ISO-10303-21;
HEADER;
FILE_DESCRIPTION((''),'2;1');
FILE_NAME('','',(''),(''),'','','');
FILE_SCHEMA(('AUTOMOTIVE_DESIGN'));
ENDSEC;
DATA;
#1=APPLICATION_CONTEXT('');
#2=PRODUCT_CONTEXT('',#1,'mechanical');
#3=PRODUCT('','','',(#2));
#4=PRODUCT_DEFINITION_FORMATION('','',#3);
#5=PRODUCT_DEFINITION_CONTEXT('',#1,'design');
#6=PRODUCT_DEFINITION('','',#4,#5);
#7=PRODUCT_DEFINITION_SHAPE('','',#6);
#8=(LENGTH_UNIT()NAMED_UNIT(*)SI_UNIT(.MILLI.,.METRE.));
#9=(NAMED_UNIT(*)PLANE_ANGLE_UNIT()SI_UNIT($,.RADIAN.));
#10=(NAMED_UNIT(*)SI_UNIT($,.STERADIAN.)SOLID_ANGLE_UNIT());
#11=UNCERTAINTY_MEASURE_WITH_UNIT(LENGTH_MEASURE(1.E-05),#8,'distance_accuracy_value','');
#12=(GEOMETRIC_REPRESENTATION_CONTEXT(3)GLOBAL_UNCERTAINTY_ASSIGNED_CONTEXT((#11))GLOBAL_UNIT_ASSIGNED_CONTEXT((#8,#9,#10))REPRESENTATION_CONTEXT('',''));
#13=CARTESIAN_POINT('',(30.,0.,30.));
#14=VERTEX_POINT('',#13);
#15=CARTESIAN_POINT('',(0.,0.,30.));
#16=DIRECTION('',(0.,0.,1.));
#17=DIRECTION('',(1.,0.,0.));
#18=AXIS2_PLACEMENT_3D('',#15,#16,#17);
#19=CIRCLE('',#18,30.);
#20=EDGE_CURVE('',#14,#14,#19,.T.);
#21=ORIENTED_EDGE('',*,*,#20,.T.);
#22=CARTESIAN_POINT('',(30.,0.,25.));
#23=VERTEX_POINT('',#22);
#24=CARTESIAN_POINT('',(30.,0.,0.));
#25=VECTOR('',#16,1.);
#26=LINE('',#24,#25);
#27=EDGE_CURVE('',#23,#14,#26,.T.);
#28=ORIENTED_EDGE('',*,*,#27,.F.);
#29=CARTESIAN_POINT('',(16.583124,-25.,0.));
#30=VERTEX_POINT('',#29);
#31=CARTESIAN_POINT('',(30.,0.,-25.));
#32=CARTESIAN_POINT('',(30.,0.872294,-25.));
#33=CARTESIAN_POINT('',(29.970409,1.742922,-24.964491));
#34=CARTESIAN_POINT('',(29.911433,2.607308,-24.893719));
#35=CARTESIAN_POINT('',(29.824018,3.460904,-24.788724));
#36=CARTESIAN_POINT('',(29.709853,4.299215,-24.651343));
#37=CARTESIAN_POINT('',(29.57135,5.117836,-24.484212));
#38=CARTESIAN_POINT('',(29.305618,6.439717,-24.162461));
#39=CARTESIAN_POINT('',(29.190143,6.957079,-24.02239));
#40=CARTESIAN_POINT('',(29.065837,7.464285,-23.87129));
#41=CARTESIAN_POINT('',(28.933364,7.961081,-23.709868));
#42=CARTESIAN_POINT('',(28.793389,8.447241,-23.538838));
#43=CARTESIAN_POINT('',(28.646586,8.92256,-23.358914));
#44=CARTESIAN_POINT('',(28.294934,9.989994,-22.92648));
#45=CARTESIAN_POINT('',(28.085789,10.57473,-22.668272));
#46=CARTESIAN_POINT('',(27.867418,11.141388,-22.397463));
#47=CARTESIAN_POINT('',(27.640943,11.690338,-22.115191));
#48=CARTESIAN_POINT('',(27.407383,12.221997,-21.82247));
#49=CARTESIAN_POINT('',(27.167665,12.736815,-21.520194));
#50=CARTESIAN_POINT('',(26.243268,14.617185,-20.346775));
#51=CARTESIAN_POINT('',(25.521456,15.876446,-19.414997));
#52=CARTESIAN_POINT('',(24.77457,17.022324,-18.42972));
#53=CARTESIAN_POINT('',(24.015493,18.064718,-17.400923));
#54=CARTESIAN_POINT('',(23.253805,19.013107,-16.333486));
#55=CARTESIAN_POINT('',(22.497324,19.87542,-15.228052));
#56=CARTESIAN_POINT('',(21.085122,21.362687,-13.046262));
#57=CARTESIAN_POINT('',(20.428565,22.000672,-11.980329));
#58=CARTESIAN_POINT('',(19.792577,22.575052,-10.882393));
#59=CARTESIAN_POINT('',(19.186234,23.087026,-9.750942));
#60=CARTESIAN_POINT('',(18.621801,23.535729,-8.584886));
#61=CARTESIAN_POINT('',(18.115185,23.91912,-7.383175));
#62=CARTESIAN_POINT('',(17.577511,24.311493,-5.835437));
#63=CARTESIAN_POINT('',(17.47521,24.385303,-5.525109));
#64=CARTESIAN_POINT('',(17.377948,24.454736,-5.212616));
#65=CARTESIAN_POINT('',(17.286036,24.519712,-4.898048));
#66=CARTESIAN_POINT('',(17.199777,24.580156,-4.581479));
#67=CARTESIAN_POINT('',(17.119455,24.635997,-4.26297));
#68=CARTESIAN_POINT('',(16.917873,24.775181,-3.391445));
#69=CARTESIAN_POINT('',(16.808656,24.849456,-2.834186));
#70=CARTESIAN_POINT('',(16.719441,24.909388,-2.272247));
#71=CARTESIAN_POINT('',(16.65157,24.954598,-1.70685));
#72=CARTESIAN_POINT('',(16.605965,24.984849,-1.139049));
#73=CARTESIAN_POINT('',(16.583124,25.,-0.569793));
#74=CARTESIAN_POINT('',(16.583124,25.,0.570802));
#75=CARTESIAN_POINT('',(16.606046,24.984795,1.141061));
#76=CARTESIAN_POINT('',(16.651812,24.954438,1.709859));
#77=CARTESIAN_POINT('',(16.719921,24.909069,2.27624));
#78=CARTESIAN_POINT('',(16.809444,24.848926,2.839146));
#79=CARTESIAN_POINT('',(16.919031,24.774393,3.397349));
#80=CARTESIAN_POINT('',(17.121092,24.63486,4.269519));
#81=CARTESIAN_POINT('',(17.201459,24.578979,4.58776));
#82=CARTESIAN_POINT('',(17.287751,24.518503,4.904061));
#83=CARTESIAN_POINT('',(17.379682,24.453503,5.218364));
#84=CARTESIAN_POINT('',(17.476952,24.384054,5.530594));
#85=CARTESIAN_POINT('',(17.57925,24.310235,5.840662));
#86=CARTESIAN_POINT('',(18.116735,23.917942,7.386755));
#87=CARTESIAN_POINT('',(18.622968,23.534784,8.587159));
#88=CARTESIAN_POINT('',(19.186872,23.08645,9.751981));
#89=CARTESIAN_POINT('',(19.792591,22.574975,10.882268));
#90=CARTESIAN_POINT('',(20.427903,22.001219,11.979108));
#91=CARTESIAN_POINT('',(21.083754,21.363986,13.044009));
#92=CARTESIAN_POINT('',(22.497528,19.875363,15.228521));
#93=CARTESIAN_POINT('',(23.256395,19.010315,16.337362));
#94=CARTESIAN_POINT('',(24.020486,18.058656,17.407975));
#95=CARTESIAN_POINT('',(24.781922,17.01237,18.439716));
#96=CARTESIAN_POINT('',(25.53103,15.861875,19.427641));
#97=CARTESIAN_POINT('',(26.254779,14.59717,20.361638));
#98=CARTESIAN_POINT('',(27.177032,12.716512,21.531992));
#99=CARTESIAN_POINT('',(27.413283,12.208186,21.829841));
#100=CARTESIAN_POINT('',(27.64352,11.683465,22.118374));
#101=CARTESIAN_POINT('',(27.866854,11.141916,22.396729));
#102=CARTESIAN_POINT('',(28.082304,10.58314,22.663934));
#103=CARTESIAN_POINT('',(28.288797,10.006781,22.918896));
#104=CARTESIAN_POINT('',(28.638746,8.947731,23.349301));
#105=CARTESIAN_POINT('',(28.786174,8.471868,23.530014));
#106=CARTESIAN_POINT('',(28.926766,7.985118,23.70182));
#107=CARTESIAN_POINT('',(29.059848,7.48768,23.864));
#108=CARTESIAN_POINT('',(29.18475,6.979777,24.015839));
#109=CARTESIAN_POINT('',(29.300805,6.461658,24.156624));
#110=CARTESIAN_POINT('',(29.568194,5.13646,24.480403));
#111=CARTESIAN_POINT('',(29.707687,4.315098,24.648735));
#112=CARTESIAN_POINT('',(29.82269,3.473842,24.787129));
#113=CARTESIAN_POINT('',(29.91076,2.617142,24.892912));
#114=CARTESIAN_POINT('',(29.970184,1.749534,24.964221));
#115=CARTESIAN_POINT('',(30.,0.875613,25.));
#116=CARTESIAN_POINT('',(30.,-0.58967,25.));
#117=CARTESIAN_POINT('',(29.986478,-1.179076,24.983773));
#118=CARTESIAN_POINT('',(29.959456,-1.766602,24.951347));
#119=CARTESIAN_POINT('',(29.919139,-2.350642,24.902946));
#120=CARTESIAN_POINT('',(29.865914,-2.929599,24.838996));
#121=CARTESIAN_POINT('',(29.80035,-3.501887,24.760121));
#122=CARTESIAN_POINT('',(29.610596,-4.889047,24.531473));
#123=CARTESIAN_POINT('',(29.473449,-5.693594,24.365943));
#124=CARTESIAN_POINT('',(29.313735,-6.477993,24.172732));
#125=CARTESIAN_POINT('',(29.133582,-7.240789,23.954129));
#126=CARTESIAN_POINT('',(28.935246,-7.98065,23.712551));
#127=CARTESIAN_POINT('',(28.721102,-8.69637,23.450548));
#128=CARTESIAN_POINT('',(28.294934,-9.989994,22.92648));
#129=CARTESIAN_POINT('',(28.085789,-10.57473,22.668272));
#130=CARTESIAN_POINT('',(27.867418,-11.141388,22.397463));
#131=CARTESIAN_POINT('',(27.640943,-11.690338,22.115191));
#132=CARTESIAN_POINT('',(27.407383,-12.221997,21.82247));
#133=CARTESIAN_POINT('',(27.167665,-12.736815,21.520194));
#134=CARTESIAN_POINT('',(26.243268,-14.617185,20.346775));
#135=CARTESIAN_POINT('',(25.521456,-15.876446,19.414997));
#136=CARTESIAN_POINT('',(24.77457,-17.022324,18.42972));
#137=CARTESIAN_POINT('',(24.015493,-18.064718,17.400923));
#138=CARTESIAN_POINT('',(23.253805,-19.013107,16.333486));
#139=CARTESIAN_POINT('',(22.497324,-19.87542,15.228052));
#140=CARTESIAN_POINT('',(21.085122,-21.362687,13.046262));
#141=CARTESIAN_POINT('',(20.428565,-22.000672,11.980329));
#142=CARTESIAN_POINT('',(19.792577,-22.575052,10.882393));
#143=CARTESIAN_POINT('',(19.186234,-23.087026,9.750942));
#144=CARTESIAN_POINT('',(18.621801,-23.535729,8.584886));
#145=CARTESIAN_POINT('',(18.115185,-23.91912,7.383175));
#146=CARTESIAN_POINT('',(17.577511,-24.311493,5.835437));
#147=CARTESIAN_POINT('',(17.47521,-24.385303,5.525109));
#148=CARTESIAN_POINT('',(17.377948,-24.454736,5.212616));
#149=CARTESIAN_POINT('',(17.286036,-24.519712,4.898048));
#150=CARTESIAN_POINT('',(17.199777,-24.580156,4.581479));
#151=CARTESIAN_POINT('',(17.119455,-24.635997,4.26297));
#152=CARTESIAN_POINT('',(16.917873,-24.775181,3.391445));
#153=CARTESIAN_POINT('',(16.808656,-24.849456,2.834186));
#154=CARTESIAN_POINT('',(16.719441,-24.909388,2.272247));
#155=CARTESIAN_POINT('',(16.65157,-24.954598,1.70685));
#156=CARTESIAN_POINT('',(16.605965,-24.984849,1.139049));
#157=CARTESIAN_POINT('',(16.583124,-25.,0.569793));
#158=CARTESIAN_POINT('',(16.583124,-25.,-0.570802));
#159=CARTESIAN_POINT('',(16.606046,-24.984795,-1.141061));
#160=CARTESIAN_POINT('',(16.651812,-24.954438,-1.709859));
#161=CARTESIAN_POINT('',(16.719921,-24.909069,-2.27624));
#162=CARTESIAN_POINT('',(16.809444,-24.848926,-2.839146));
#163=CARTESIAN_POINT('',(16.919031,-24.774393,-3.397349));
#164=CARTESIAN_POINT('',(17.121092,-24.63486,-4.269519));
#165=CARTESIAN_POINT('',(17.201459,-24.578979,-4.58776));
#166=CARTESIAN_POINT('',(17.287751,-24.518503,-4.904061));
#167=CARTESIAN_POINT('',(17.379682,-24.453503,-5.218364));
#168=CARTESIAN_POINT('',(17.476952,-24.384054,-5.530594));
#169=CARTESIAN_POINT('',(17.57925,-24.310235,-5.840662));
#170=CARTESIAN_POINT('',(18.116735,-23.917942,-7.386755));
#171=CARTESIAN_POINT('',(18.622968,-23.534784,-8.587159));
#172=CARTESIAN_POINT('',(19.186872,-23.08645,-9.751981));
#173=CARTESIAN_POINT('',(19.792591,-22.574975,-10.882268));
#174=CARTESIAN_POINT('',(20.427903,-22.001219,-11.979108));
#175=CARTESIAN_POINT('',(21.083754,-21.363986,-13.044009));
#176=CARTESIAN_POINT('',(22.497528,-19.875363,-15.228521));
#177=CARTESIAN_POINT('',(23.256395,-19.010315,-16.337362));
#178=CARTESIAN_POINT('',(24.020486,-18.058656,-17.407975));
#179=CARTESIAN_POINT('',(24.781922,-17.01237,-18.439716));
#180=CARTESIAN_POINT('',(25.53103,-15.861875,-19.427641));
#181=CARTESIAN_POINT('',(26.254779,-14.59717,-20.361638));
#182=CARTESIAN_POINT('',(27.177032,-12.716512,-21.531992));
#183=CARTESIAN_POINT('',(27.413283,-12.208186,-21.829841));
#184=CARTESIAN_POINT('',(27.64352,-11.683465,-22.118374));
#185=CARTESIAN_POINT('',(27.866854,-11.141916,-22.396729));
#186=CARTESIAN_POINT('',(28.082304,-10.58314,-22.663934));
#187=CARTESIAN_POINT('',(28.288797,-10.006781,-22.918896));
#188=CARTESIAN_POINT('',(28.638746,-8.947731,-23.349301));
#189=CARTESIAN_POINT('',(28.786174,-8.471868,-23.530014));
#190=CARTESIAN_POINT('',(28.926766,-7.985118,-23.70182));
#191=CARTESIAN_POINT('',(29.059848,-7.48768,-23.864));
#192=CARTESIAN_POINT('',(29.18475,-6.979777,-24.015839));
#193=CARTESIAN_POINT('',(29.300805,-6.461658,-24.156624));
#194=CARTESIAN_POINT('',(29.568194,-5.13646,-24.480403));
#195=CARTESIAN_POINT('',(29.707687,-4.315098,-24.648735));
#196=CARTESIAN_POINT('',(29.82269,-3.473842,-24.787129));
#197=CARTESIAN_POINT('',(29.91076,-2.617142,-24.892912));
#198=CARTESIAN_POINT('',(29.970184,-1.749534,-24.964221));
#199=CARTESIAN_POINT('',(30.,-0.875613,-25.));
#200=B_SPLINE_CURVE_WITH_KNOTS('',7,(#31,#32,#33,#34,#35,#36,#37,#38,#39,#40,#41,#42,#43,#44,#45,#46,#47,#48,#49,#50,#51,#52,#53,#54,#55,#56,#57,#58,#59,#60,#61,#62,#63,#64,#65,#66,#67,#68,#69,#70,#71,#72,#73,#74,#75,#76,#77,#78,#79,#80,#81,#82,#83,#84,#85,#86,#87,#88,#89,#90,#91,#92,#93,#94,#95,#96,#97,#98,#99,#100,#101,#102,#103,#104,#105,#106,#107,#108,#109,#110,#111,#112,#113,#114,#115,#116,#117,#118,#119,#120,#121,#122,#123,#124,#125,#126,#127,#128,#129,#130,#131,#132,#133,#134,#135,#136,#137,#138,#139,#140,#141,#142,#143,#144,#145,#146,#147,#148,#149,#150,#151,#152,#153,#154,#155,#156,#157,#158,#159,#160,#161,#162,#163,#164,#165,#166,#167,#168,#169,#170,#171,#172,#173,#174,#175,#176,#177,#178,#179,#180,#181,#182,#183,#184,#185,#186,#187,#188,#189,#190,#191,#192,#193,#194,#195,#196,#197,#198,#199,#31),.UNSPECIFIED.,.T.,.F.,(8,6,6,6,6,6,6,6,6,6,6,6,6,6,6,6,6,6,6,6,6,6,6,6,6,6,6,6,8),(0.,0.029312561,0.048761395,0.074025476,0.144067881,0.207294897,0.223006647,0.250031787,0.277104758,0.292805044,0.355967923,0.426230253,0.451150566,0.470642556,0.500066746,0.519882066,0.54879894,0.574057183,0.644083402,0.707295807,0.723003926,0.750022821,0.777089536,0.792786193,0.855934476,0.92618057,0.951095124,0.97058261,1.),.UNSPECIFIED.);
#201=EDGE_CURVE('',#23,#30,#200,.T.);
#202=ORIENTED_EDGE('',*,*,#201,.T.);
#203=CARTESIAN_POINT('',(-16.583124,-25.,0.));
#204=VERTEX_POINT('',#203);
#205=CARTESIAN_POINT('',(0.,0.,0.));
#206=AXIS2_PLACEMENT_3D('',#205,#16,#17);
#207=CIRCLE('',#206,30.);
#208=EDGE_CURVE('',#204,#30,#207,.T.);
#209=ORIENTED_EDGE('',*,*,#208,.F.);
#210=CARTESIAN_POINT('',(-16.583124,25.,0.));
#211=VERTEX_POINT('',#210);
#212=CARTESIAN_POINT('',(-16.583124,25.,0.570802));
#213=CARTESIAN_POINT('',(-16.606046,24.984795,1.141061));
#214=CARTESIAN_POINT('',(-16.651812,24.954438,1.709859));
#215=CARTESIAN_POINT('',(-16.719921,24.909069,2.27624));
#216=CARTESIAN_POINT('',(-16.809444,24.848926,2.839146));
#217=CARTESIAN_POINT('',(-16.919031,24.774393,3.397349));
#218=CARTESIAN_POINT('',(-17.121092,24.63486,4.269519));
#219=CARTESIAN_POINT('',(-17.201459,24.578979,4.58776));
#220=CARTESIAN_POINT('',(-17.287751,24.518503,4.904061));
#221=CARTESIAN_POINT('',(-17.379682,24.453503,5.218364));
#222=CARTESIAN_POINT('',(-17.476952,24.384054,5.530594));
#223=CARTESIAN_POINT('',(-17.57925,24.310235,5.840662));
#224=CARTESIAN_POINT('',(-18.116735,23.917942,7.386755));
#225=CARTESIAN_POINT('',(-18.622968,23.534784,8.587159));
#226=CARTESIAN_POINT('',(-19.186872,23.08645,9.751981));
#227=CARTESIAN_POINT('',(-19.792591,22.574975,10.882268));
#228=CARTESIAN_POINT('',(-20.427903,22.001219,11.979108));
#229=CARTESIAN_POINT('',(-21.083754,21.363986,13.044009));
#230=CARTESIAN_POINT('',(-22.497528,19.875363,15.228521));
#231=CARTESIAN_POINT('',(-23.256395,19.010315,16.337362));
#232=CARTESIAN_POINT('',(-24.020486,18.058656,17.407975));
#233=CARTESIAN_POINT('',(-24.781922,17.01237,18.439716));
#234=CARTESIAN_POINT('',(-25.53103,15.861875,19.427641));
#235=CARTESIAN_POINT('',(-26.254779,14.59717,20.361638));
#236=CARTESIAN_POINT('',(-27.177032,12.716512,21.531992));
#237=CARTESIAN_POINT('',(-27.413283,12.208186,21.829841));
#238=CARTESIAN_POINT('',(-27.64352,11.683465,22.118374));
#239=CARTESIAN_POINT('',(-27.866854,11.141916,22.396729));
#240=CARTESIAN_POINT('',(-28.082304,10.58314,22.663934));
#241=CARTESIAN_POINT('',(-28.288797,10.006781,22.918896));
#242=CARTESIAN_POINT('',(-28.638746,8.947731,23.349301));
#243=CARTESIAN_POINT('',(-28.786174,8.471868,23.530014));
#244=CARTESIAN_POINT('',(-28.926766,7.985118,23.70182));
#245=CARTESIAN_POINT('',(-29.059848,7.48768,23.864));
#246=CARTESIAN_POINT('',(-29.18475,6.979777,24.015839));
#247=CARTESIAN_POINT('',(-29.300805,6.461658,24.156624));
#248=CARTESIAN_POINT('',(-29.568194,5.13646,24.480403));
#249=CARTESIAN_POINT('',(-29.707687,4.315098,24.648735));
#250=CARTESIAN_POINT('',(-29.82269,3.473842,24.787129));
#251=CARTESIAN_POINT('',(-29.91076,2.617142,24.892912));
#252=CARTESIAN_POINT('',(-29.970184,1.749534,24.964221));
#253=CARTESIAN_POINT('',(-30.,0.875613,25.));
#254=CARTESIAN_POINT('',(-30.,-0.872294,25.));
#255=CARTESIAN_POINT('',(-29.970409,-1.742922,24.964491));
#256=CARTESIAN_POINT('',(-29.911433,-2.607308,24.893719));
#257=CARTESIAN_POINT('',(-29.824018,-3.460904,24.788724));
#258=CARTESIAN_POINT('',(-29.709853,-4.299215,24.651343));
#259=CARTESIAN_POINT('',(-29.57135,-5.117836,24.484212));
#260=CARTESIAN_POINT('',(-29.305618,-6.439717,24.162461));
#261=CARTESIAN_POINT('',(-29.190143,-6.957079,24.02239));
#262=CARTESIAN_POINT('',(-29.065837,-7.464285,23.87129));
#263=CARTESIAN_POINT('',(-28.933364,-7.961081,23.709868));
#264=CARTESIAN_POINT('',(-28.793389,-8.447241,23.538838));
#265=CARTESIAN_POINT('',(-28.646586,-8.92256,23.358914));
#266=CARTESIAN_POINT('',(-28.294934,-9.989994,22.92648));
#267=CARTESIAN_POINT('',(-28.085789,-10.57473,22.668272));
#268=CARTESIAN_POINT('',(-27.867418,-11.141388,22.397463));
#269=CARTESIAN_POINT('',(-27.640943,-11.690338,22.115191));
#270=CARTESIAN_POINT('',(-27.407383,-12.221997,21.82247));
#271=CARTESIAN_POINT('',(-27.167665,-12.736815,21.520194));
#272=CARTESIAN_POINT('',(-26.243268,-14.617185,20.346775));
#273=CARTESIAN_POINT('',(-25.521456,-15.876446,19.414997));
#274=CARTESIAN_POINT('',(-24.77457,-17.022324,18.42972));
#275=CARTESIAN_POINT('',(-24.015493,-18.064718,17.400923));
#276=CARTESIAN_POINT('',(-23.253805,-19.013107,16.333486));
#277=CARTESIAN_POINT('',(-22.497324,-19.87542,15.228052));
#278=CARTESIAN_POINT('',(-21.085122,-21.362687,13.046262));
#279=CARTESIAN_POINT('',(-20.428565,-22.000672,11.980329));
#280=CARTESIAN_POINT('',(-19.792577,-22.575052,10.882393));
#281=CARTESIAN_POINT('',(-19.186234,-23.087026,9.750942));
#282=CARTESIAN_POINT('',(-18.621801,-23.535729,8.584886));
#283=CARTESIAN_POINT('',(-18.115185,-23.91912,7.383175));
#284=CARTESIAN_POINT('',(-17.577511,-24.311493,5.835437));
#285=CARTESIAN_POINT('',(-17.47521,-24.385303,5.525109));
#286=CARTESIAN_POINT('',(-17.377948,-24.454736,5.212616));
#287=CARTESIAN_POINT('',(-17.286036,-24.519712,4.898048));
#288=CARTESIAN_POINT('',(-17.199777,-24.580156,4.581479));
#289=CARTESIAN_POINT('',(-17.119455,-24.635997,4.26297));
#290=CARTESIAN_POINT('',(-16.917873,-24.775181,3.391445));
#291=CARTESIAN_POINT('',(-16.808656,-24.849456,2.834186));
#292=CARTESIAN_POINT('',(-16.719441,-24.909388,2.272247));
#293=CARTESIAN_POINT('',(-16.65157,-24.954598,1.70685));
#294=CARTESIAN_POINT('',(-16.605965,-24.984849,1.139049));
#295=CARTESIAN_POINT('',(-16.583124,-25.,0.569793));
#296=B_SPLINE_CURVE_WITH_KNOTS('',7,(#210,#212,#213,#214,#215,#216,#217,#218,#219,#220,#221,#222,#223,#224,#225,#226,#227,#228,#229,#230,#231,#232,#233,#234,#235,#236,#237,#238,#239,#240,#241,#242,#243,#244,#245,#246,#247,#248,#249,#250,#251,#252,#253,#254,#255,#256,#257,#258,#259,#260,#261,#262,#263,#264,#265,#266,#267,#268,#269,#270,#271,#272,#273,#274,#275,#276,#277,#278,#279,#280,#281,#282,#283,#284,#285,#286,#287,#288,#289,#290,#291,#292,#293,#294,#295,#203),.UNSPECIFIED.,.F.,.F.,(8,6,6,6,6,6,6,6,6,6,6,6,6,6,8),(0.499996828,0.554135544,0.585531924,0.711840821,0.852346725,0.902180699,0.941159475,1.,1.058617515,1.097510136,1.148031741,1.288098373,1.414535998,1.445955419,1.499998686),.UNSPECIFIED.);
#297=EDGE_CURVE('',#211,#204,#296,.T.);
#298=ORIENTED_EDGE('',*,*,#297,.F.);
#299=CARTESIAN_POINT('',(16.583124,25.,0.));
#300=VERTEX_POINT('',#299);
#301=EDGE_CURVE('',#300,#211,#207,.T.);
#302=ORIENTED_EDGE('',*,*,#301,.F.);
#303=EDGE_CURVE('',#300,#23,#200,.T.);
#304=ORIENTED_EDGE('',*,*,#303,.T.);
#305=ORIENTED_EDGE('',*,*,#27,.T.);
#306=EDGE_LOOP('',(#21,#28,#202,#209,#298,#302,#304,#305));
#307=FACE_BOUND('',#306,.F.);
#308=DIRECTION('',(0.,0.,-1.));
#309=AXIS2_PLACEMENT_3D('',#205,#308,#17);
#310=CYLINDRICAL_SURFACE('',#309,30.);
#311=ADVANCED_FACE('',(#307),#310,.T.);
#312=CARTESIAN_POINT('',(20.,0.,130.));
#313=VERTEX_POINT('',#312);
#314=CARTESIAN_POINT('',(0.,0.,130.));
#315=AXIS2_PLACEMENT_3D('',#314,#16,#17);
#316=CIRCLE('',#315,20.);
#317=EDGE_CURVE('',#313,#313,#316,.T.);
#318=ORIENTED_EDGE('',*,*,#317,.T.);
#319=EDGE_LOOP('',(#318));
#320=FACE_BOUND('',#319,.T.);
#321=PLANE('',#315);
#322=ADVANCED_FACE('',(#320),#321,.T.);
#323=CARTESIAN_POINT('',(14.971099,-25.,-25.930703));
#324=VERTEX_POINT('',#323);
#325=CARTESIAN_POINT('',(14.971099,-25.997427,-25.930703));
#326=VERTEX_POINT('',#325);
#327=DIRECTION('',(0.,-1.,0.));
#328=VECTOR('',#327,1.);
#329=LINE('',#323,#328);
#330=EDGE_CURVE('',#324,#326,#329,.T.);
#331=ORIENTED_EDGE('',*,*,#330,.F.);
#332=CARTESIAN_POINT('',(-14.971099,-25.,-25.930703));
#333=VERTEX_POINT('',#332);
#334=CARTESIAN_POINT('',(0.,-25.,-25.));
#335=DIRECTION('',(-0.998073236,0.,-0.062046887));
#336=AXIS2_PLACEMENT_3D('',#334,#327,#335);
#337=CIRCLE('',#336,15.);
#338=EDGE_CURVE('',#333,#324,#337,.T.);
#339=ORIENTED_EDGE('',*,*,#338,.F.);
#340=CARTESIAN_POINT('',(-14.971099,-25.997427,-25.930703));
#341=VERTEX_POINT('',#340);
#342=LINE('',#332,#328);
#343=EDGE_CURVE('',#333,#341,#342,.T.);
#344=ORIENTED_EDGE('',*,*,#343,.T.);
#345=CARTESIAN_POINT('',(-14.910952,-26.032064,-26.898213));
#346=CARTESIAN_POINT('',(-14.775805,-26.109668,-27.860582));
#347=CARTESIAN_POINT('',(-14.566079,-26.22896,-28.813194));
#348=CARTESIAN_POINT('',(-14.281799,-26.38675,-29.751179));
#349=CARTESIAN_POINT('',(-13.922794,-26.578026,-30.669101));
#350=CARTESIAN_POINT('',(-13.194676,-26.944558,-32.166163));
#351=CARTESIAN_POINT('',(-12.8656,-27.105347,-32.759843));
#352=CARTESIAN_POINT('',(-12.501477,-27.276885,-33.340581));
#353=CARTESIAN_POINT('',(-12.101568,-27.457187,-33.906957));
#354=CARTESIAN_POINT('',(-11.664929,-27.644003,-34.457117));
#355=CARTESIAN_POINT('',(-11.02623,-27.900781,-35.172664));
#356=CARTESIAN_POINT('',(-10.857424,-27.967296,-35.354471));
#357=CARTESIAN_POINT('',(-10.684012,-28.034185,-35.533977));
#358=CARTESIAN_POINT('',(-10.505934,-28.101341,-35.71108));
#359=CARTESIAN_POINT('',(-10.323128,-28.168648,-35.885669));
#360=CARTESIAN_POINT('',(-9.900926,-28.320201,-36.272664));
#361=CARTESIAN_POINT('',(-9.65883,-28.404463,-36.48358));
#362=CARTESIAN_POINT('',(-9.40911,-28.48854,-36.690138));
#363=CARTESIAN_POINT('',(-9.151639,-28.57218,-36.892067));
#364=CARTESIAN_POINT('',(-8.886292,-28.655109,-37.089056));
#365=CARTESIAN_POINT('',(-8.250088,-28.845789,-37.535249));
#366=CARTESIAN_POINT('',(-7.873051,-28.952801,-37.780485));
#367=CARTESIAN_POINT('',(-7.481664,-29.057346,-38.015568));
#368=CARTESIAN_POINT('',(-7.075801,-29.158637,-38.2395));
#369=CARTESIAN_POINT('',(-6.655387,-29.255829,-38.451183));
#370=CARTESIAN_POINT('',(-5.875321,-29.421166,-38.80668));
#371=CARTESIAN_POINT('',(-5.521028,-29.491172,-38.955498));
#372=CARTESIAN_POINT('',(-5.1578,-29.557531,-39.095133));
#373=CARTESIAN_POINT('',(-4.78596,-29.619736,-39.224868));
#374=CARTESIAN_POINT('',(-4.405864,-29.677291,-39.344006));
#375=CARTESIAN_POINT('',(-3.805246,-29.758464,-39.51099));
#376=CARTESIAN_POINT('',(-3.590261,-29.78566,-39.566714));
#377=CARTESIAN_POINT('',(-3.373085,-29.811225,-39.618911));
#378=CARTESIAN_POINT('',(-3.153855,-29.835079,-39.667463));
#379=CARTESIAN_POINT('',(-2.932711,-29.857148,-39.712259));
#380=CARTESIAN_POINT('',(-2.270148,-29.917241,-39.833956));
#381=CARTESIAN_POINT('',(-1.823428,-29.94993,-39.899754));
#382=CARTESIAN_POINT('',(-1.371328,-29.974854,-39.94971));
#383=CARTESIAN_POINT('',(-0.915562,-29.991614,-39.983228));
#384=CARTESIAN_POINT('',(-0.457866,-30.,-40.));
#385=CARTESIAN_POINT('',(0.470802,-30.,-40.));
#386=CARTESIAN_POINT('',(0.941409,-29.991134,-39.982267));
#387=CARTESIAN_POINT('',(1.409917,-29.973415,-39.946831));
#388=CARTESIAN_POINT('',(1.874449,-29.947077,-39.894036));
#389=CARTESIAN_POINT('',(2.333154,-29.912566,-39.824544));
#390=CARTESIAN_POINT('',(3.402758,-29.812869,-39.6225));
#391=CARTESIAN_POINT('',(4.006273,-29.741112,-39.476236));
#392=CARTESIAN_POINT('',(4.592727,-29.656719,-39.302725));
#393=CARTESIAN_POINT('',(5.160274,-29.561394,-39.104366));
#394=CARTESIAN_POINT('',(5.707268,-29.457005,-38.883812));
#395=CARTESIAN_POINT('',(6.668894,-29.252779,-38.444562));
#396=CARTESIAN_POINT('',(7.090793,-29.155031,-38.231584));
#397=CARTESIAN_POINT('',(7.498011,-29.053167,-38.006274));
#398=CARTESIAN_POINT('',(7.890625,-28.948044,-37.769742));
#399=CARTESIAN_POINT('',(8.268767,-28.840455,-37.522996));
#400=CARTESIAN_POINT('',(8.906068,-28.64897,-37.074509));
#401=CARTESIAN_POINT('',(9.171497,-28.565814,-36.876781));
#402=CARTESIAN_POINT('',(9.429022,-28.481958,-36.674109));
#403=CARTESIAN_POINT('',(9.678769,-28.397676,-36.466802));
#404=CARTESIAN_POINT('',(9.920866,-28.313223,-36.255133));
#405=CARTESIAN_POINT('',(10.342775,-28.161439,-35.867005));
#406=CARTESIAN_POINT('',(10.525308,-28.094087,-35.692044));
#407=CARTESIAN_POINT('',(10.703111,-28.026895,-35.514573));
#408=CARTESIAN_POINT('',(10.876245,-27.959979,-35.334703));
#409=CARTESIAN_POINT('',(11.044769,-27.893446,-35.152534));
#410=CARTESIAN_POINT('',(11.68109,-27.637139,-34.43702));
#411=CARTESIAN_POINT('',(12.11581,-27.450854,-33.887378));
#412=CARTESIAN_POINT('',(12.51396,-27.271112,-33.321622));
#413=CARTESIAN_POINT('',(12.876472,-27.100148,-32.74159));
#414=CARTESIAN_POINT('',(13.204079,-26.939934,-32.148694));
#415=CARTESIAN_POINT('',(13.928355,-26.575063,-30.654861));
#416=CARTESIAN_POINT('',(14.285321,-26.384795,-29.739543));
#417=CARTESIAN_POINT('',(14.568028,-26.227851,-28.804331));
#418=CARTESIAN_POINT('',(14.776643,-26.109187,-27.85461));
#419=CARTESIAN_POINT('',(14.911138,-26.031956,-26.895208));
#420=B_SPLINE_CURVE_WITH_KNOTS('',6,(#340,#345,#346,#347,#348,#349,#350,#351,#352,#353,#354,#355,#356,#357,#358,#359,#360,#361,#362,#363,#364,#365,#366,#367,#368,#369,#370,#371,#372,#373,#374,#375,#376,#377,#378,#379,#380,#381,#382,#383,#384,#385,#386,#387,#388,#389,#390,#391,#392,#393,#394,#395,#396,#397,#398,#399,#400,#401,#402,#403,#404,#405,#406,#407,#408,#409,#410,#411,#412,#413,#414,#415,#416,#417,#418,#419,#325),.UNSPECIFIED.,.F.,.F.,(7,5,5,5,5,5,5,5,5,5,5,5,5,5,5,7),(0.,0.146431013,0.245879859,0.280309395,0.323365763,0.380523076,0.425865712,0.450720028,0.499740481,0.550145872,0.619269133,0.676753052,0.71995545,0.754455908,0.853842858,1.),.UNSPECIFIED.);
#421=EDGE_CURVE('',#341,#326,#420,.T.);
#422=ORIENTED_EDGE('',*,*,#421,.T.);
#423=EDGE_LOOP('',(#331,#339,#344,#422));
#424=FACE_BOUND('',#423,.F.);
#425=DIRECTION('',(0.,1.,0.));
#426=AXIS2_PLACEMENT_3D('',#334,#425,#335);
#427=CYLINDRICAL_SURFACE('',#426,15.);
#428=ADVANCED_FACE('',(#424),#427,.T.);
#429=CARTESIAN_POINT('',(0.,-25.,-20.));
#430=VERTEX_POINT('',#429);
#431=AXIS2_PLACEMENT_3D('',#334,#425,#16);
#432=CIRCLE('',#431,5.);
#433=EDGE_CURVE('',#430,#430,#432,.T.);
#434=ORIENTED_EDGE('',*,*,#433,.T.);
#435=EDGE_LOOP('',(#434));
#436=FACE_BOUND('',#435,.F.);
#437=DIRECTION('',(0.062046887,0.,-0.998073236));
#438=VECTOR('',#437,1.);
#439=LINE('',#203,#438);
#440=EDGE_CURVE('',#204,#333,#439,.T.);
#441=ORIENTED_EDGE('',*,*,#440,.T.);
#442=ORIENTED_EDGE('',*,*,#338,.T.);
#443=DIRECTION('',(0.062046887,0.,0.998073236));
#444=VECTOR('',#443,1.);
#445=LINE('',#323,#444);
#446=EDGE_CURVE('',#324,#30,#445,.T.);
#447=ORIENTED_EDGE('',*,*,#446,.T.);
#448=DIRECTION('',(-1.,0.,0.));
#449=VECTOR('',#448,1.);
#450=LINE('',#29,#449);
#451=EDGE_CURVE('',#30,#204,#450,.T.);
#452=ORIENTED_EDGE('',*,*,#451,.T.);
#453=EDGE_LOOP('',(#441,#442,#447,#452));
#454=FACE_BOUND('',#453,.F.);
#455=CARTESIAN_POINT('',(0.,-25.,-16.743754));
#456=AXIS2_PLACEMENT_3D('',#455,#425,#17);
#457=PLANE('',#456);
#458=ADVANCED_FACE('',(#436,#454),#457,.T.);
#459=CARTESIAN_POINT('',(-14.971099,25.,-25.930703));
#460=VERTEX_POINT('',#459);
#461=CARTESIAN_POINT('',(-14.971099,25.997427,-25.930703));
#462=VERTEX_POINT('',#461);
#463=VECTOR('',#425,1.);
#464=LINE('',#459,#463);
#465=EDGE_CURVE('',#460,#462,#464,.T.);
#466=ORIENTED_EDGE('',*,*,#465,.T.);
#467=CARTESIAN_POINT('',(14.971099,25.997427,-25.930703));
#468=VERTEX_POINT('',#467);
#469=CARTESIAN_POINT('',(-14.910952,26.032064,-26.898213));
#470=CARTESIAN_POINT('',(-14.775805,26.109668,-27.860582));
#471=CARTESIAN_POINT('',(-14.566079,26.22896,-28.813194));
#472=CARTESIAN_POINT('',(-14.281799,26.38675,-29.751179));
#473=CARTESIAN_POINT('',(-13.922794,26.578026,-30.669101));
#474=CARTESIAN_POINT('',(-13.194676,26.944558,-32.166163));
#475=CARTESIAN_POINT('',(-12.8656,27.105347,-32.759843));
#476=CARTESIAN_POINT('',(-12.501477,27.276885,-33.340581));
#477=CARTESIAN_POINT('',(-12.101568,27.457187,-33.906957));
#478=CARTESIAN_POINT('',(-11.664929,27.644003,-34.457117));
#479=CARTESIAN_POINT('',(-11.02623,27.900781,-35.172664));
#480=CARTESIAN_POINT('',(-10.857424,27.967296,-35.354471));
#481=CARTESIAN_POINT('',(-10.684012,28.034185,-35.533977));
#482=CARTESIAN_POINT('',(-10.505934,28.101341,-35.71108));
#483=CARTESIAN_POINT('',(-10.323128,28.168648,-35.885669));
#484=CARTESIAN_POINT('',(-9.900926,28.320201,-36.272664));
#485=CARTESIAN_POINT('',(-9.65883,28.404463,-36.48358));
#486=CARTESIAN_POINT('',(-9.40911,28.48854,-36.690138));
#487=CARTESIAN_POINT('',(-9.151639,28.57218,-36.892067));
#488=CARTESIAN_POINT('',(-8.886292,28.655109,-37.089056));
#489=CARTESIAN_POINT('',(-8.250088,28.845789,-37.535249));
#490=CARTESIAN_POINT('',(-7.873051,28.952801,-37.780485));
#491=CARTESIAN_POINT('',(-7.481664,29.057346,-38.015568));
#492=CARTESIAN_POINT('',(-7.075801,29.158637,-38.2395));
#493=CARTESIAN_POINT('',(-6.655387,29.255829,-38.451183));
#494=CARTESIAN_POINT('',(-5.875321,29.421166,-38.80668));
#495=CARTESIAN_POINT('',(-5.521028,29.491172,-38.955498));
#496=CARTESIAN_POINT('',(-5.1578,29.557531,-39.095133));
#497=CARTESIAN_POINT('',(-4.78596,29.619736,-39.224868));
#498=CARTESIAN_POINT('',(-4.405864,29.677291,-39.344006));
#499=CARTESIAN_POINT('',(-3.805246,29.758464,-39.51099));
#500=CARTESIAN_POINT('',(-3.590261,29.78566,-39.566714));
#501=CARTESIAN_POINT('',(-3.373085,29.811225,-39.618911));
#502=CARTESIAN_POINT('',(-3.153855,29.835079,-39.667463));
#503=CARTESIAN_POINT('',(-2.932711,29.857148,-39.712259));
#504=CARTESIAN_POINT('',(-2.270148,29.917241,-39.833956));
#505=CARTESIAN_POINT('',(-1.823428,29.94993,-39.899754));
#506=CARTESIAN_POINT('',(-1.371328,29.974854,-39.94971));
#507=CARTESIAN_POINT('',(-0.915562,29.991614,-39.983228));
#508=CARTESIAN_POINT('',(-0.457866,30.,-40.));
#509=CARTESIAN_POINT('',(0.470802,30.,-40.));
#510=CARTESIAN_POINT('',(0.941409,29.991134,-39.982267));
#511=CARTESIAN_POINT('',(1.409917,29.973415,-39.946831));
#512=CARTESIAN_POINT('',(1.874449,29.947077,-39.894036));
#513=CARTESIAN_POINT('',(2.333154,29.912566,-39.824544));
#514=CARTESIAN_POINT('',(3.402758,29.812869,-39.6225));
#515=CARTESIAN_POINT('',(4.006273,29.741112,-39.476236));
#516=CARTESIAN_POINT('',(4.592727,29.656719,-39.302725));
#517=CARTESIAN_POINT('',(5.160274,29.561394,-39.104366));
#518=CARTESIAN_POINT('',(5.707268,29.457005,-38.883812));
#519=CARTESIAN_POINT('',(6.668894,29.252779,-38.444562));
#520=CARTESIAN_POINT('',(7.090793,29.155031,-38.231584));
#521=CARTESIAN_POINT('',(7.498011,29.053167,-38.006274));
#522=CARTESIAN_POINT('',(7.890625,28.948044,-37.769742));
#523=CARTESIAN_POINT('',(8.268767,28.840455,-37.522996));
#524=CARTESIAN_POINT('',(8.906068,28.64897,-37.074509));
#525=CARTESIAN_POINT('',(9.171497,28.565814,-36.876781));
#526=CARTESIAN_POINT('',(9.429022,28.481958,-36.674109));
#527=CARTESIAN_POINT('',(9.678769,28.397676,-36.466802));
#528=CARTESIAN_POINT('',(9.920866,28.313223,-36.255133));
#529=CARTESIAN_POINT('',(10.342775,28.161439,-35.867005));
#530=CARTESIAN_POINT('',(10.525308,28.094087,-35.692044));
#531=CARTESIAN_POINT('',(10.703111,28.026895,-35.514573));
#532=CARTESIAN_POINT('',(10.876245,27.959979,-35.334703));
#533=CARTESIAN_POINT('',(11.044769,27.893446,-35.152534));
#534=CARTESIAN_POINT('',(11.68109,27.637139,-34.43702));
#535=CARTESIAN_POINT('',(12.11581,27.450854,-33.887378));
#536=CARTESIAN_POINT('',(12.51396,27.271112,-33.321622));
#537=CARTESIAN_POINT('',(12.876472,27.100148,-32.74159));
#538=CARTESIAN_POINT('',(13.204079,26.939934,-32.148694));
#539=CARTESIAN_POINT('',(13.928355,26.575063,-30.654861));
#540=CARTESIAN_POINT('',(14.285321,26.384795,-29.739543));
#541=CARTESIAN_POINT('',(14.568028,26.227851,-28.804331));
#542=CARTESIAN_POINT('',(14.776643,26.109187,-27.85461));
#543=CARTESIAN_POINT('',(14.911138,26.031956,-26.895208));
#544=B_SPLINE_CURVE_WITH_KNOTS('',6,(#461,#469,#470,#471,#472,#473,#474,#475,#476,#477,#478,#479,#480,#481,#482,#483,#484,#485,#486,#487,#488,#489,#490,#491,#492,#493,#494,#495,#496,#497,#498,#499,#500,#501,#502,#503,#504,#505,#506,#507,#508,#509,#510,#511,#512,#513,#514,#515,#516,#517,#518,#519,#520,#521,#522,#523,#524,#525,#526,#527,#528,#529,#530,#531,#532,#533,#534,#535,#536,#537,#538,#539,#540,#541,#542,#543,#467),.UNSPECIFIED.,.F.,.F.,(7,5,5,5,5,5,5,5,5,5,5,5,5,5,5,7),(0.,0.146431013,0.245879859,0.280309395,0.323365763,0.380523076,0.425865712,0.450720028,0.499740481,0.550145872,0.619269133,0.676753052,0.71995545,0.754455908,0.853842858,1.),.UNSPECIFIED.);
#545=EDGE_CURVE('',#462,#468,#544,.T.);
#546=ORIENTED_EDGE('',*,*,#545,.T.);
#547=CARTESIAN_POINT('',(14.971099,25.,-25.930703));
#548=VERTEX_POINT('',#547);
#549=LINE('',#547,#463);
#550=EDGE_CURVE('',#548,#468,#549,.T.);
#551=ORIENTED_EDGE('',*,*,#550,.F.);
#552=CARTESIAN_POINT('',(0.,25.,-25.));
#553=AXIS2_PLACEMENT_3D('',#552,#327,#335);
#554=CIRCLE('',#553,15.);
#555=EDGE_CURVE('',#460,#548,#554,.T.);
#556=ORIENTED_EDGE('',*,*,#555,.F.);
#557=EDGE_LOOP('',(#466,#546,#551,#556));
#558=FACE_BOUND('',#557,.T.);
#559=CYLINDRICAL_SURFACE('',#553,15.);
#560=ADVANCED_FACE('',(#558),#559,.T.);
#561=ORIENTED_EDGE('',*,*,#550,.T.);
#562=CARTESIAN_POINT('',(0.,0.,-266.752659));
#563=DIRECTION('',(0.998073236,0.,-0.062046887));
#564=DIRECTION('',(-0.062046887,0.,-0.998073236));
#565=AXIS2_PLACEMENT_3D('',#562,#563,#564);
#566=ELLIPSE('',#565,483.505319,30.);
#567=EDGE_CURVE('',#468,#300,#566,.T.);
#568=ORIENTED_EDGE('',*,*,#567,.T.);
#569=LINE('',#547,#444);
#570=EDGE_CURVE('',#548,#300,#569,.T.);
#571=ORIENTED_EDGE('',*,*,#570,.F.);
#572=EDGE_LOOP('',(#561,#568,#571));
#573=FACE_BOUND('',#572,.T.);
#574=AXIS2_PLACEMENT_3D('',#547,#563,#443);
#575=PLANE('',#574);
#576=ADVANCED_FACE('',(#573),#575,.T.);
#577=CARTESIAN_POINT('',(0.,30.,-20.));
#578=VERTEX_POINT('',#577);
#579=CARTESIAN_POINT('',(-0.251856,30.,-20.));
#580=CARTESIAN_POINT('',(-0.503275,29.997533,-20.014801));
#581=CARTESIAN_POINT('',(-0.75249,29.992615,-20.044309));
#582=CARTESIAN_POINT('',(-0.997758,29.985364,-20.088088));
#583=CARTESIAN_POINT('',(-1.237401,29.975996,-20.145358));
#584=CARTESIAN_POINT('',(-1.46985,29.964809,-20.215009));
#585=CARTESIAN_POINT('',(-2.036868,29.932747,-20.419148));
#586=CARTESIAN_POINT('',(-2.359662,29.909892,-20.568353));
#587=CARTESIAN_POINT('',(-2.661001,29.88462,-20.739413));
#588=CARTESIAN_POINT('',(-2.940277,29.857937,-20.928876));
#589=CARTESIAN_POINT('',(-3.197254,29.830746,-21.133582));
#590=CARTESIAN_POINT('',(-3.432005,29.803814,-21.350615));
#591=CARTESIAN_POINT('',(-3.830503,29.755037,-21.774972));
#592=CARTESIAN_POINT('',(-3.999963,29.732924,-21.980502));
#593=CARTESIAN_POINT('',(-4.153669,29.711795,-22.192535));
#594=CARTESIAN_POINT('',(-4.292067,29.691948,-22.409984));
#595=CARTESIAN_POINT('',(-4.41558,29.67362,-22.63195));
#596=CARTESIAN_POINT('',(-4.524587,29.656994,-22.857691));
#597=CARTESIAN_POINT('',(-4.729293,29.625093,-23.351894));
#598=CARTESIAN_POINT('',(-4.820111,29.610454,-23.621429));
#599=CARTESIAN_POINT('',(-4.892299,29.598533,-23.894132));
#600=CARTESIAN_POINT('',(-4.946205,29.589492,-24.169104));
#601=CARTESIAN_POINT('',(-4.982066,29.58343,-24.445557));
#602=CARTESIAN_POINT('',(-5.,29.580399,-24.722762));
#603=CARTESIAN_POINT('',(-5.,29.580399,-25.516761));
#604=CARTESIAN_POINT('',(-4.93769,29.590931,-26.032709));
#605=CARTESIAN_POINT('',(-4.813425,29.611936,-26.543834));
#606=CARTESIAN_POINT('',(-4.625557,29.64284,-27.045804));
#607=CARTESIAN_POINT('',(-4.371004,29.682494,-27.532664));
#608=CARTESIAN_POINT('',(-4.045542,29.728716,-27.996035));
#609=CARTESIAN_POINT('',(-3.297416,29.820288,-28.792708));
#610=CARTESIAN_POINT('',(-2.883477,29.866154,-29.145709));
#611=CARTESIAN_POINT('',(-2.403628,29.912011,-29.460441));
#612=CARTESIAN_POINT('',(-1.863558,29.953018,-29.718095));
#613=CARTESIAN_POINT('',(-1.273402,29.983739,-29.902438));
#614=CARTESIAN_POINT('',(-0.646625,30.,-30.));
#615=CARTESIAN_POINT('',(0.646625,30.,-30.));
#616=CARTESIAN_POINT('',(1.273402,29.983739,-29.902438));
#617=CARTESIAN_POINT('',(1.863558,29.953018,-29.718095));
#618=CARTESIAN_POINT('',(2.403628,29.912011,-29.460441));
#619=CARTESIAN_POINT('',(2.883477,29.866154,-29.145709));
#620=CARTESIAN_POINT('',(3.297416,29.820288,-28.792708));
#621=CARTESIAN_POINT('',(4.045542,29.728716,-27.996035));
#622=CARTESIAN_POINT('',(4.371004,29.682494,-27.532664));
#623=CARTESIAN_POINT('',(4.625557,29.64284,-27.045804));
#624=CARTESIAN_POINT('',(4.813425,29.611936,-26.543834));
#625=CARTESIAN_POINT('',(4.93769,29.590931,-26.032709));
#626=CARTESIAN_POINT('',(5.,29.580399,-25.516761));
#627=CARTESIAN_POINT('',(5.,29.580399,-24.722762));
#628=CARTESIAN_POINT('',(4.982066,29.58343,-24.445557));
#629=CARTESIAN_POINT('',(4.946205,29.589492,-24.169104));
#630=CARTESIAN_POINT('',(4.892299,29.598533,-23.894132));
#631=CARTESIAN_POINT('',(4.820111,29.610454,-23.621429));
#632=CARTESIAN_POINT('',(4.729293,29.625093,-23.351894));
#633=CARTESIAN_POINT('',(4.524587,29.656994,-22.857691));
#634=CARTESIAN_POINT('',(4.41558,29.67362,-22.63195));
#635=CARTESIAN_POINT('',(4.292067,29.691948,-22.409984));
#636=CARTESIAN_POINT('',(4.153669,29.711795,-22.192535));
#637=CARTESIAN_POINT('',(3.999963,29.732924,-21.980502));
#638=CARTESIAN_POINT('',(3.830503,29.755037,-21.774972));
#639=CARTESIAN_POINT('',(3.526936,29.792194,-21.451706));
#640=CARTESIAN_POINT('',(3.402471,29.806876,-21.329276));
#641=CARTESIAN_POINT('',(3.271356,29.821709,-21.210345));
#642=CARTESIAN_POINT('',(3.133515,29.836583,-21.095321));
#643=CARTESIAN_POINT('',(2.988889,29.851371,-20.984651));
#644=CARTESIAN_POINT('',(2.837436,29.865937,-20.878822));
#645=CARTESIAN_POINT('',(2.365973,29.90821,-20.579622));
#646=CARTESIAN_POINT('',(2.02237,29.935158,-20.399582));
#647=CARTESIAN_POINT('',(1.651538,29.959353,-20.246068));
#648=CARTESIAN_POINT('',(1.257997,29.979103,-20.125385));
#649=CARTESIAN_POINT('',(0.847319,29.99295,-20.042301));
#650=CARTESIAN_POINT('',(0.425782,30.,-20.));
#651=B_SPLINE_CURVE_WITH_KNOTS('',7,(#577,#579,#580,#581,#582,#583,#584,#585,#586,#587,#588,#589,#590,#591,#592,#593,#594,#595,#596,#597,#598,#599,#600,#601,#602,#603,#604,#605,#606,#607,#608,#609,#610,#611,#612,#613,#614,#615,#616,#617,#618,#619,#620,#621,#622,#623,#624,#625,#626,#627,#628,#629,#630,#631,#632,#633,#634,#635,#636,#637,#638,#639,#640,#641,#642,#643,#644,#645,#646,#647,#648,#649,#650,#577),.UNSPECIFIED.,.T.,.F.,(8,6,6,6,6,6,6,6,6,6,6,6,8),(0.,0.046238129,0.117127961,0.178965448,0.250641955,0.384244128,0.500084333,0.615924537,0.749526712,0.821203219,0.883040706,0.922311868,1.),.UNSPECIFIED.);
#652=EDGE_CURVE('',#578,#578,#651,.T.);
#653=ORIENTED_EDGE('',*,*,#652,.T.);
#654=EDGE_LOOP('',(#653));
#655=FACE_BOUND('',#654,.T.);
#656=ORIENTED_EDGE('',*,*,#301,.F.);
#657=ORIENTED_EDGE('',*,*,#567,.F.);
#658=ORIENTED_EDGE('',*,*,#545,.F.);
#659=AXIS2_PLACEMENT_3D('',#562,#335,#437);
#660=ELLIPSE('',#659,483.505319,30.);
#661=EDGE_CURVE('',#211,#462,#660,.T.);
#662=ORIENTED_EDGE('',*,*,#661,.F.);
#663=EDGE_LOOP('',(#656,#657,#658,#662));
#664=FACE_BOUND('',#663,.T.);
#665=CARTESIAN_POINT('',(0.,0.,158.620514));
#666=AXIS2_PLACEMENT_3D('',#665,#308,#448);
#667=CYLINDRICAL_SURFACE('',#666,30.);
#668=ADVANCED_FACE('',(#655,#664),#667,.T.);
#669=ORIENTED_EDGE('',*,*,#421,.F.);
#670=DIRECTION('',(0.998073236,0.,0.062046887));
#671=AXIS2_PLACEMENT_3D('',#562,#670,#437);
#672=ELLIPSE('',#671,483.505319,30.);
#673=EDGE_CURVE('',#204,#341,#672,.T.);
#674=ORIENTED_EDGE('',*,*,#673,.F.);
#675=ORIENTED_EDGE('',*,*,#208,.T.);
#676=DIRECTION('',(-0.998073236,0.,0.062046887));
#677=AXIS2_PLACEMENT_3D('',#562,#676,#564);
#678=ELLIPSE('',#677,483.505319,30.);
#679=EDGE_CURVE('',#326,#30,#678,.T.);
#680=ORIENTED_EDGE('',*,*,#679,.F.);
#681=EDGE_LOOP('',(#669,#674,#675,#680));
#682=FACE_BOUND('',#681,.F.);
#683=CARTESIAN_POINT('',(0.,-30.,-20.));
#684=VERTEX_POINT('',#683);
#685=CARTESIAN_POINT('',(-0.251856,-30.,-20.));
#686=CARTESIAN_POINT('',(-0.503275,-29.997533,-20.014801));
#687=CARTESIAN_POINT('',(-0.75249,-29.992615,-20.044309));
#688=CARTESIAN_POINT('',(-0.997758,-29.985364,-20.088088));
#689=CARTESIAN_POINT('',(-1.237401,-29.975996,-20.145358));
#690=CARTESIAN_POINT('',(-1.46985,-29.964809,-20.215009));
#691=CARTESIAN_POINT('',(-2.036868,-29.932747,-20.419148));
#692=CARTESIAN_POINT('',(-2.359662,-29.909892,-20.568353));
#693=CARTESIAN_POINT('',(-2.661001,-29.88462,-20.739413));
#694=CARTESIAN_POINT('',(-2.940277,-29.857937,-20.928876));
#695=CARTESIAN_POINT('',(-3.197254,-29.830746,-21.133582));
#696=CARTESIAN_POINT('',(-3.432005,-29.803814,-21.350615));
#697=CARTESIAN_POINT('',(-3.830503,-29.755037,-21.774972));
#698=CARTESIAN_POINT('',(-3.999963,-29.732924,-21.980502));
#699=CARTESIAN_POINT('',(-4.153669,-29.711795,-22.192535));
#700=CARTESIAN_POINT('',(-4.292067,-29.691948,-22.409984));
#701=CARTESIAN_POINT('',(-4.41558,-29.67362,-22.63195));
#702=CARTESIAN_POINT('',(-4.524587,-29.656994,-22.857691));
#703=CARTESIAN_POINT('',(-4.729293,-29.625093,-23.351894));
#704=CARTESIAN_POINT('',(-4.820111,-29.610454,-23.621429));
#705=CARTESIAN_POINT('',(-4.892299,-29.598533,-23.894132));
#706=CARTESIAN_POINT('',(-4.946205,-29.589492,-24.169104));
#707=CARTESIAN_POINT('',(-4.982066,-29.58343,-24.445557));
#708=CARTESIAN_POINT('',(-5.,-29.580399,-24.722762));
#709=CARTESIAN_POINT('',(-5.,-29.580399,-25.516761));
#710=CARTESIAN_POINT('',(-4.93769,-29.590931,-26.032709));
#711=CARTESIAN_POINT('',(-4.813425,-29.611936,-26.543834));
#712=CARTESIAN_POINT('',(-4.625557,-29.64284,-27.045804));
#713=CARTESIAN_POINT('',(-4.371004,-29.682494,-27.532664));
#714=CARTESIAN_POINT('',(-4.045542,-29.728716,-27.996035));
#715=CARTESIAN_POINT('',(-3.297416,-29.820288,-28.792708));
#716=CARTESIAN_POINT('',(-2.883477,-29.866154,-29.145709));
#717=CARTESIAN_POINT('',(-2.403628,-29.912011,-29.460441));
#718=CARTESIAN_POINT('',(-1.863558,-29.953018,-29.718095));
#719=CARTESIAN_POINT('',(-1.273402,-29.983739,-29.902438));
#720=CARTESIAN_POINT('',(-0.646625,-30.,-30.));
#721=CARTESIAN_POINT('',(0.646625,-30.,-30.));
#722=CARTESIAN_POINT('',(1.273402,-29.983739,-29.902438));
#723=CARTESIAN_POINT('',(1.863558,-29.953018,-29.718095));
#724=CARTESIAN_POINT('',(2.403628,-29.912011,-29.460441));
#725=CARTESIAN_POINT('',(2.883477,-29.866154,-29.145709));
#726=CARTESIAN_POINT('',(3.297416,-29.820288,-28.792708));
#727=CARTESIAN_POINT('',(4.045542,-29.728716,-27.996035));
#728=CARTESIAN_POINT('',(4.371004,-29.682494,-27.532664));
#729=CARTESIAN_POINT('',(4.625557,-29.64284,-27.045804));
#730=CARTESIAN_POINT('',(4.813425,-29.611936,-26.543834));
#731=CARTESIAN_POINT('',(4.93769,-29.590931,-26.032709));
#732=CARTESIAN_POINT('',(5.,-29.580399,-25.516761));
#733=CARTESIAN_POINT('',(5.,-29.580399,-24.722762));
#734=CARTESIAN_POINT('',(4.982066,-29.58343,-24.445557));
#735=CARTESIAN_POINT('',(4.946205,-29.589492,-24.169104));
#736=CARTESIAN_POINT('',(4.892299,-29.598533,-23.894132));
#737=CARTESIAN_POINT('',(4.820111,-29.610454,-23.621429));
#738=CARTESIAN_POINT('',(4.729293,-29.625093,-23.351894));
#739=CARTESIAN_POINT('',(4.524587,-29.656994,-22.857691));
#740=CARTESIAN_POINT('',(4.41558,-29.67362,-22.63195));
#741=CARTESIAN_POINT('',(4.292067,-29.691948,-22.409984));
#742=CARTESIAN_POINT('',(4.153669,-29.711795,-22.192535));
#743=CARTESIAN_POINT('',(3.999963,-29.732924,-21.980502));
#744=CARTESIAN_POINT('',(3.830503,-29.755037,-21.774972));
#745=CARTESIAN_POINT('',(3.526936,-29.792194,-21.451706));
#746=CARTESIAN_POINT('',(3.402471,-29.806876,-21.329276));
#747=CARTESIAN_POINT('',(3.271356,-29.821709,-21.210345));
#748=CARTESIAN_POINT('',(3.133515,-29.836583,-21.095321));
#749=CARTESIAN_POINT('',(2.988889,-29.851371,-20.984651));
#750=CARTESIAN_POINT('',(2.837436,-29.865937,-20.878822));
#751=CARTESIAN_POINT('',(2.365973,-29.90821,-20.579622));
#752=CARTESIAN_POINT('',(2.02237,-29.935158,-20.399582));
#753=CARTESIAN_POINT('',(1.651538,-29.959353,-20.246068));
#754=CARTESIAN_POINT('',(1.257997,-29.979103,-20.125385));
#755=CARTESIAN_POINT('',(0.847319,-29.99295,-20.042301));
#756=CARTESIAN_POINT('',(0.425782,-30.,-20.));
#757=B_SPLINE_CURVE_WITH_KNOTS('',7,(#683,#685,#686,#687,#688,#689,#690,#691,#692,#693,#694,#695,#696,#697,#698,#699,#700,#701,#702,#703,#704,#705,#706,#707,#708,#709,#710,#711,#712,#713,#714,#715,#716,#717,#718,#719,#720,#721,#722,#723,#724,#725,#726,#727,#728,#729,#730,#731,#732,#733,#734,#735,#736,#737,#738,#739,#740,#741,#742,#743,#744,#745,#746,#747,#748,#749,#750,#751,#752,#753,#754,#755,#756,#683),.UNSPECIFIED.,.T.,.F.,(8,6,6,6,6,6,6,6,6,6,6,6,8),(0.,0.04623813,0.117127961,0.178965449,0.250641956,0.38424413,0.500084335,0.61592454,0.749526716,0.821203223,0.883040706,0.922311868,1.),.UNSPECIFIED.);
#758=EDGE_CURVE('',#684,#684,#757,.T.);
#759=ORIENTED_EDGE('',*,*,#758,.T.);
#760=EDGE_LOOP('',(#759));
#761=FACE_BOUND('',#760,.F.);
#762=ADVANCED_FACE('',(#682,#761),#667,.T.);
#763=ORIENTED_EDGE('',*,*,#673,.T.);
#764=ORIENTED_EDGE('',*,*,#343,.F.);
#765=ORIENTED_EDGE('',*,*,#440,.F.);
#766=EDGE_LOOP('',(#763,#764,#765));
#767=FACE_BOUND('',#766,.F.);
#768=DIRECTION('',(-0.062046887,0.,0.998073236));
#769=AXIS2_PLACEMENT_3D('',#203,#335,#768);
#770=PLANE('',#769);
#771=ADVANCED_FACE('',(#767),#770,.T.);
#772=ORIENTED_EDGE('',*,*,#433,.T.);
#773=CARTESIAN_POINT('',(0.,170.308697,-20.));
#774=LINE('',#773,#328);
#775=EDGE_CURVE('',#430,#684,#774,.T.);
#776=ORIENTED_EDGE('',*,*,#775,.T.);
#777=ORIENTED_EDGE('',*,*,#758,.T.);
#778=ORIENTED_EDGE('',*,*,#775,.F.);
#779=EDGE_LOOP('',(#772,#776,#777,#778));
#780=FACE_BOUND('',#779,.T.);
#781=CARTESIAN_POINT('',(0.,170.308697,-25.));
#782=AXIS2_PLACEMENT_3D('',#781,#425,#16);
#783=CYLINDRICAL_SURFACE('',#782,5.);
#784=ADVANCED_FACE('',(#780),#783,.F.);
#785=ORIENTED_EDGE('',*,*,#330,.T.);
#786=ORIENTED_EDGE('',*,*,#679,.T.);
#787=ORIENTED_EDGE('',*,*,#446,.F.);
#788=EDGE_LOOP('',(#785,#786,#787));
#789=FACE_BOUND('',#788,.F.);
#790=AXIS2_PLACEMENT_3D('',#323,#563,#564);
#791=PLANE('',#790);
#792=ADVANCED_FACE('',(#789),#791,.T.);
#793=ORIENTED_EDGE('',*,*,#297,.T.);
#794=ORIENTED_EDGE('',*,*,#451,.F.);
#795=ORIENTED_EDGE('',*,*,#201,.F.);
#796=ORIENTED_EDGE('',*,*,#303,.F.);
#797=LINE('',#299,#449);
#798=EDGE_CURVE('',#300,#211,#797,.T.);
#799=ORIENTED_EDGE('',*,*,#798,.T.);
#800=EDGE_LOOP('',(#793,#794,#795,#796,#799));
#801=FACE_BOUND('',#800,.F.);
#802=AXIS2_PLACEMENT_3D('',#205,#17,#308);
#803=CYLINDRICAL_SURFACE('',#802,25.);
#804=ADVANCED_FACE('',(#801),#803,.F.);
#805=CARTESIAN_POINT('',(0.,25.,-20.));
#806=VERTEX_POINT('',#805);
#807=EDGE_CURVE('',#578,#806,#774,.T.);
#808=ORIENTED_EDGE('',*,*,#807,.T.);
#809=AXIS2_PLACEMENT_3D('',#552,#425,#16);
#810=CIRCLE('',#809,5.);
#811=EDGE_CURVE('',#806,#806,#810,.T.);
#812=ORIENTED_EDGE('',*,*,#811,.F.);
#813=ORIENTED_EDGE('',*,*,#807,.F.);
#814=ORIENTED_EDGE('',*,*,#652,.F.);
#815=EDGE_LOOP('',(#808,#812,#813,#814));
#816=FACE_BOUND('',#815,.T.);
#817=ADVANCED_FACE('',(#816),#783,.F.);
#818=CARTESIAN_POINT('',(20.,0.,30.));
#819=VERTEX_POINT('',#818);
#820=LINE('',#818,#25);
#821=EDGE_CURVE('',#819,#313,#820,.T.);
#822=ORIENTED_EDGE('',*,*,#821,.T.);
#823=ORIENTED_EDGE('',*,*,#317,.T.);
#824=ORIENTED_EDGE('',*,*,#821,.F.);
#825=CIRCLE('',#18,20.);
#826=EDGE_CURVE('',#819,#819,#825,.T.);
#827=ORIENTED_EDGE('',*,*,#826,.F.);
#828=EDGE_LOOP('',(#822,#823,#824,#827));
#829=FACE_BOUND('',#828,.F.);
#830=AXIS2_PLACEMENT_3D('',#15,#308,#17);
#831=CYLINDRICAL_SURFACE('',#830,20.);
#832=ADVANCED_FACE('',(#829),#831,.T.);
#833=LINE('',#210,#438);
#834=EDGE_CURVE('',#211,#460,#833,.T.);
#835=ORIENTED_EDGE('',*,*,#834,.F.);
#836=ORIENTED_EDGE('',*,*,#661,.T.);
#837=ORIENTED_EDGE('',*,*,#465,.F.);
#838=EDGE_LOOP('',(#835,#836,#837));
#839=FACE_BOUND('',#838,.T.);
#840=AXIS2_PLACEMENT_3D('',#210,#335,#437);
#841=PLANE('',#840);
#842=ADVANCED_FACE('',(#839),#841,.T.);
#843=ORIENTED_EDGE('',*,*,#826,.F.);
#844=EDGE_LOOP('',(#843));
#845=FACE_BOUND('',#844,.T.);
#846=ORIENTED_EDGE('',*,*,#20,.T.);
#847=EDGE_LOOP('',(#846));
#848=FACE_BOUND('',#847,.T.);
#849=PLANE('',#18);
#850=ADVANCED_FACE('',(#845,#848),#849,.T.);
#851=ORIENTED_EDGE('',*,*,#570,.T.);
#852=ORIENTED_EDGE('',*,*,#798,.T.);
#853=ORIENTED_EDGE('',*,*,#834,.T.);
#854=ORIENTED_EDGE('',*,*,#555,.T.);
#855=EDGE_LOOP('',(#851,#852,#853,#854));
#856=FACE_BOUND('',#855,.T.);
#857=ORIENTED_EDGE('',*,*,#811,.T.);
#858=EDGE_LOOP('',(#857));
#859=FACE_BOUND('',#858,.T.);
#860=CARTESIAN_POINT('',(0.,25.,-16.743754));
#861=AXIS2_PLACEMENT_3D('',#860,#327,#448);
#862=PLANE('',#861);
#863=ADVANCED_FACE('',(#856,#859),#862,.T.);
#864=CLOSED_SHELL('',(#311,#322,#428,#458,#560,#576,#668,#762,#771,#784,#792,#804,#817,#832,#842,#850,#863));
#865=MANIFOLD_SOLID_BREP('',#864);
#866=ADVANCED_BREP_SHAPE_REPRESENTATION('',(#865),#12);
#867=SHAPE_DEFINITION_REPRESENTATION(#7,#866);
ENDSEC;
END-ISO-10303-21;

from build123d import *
from build123d.topology import SkipClean

# Parameters (mm, degrees)
BASE_SKETCH_R                   = 30
BASE_EXTRUDE_DEPTH              = 30
PIN_SKETCH_R                    = 20
PIN_EXTRUDE_DEPTH               = 100
SIDE_CUT_REACH                  = 138.748
SIDE_CUT_END_RADIUS             = 30
SIDE_CUT_SKETCH_R               = 25
SIDE_CUT_DIRECTION_2_REACH      = 138.748
SIDE_CUT_DIRECTION_2_END_RADIUS = 30
WING_EXTRUDE_REACH              = 146.309
WING_EXTRUDE_END_RADIUS         = 30
PIN_HOLE_CUT_DEPTH              = 145.308696956
PIN_HOLE_CUT_DEPTH_BACK         = 145.308696956
PIN_HOLE_SKETCH_R               = 5


with BuildPart() as part:
    # Base Sketch → Base Extrude (new body)
    with BuildSketch(Plane.XY):
        Circle(BASE_SKETCH_R)
    extrude(amount=BASE_EXTRUDE_DEPTH)

    # Pin Sketch → Pin Extrude (add)
    with BuildSketch(Plane.XY.offset(30)):
        Circle(PIN_SKETCH_R)
    extrude(amount=PIN_EXTRUDE_DEPTH)

    # Side Cut: up to this cylinder (the profile starts inside it)
    side_cut_end = Plane(origin=(0, 0, 0), z_dir=(0, 0, -1)) * Cylinder(SIDE_CUT_END_RADIUS, 338.496, mode=Mode.PRIVATE)
    # Side Cut Sketch → Side Cut (cut, up to the surface)
    with BuildSketch(Plane(origin=(0, 0, 0), x_dir=(0, 0, -1), z_dir=(1, 0, 0)), mode=Mode.PRIVATE) as side_cut_sk1:
        Circle(SIDE_CUT_SKETCH_R)
    side_cut_tool1 = extrude(side_cut_sk1.sketch, amount=-SIDE_CUT_REACH, mode=Mode.PRIVATE) & side_cut_end
    add(side_cut_tool1.solids().sort_by_distance((0, 0, 0))[0], mode=Mode.SUBTRACT)

    # Side Cut direction 2: up to this cylinder (the profile starts inside it)
    side_cut_direction_2_end = Plane(origin=(0, 0, 0), z_dir=(0, 0, -1)) * Cylinder(SIDE_CUT_DIRECTION_2_END_RADIUS, 338.496, mode=Mode.PRIVATE)
    # Side Cut Sketch → Side Cut direction 2 (cut, up to the surface)
    with BuildSketch(Plane(origin=(0, 0, 0), x_dir=(0, 0, -1), z_dir=(1, 0, 0)), mode=Mode.PRIVATE) as side_cut_direction_2_sk1:
        Circle(SIDE_CUT_SKETCH_R)
    side_cut_direction_2_tool1 = extrude(side_cut_direction_2_sk1.sketch, amount=SIDE_CUT_DIRECTION_2_REACH, mode=Mode.PRIVATE) & side_cut_direction_2_end
    add(side_cut_direction_2_tool1.solids().sort_by_distance((0, 0, 0))[0], mode=Mode.SUBTRACT)

    # Wing Extrude: up to this cylinder (the profile starts inside it)
    with SkipClean():  # the faces are left unmerged after this step: merging them gives an invalid solid
        wing_extrude_end = Plane(origin=(0, 0, -18.188486), z_dir=(0, 0, -1)) * Cylinder(WING_EXTRUDE_END_RADIUS, 353.618, mode=Mode.PRIVATE)
        # Wing Sketch → Wing Extrude (add, up to the surface)
        with BuildSketch(Plane(origin=(0, 25, 0), x_dir=(1, 0, 0), z_dir=(0, 1, 0)), mode=Mode.PRIVATE) as wing_extrude_sk1:
            with BuildLine():
                Line((-16.583123952, 0), (-14.971098535, 25.930703308))
                ThreePointArc((-14.971098535, 25.930703308), (0, 40), (14.971098535, 25.930703308))
                Line((14.971098535, 25.930703308), (16.583123952, 0))
                Line((16.583123952, 0), (-16.583123952, 0))
            make_face()
        wing_extrude_tool1 = extrude(wing_extrude_sk1.sketch, amount=WING_EXTRUDE_REACH, mode=Mode.PRIVATE) & wing_extrude_end
        wing_extrude = wing_extrude_tool1.solids().sort_by_distance((0, 25, -18.188486))[0]
        add(wing_extrude)

    # Wing Mirror: Wing Extrude across plane
    with SkipClean():  # the faces are left unmerged after this step: merging them gives an invalid solid
        add(wing_extrude.mirror(Plane.ZX))

    # Pin Hole Sketch → Pin Hole Cut (cut, two sides: drawn at the far end of the back side and taken through both)
    with SkipClean():  # the faces are left unmerged after this step: merging them gives an invalid solid
        with BuildSketch(Plane.XZ.offset(-25).offset(-PIN_HOLE_CUT_DEPTH_BACK)):
            with Locations(Location((0, -25, 0), (0, 0, 90))):
                Circle(PIN_HOLE_SKETCH_R)
        extrude(amount=PIN_HOLE_CUT_DEPTH + PIN_HOLE_CUT_DEPTH_BACK, mode=Mode.SUBTRACT)


solid = part.part
